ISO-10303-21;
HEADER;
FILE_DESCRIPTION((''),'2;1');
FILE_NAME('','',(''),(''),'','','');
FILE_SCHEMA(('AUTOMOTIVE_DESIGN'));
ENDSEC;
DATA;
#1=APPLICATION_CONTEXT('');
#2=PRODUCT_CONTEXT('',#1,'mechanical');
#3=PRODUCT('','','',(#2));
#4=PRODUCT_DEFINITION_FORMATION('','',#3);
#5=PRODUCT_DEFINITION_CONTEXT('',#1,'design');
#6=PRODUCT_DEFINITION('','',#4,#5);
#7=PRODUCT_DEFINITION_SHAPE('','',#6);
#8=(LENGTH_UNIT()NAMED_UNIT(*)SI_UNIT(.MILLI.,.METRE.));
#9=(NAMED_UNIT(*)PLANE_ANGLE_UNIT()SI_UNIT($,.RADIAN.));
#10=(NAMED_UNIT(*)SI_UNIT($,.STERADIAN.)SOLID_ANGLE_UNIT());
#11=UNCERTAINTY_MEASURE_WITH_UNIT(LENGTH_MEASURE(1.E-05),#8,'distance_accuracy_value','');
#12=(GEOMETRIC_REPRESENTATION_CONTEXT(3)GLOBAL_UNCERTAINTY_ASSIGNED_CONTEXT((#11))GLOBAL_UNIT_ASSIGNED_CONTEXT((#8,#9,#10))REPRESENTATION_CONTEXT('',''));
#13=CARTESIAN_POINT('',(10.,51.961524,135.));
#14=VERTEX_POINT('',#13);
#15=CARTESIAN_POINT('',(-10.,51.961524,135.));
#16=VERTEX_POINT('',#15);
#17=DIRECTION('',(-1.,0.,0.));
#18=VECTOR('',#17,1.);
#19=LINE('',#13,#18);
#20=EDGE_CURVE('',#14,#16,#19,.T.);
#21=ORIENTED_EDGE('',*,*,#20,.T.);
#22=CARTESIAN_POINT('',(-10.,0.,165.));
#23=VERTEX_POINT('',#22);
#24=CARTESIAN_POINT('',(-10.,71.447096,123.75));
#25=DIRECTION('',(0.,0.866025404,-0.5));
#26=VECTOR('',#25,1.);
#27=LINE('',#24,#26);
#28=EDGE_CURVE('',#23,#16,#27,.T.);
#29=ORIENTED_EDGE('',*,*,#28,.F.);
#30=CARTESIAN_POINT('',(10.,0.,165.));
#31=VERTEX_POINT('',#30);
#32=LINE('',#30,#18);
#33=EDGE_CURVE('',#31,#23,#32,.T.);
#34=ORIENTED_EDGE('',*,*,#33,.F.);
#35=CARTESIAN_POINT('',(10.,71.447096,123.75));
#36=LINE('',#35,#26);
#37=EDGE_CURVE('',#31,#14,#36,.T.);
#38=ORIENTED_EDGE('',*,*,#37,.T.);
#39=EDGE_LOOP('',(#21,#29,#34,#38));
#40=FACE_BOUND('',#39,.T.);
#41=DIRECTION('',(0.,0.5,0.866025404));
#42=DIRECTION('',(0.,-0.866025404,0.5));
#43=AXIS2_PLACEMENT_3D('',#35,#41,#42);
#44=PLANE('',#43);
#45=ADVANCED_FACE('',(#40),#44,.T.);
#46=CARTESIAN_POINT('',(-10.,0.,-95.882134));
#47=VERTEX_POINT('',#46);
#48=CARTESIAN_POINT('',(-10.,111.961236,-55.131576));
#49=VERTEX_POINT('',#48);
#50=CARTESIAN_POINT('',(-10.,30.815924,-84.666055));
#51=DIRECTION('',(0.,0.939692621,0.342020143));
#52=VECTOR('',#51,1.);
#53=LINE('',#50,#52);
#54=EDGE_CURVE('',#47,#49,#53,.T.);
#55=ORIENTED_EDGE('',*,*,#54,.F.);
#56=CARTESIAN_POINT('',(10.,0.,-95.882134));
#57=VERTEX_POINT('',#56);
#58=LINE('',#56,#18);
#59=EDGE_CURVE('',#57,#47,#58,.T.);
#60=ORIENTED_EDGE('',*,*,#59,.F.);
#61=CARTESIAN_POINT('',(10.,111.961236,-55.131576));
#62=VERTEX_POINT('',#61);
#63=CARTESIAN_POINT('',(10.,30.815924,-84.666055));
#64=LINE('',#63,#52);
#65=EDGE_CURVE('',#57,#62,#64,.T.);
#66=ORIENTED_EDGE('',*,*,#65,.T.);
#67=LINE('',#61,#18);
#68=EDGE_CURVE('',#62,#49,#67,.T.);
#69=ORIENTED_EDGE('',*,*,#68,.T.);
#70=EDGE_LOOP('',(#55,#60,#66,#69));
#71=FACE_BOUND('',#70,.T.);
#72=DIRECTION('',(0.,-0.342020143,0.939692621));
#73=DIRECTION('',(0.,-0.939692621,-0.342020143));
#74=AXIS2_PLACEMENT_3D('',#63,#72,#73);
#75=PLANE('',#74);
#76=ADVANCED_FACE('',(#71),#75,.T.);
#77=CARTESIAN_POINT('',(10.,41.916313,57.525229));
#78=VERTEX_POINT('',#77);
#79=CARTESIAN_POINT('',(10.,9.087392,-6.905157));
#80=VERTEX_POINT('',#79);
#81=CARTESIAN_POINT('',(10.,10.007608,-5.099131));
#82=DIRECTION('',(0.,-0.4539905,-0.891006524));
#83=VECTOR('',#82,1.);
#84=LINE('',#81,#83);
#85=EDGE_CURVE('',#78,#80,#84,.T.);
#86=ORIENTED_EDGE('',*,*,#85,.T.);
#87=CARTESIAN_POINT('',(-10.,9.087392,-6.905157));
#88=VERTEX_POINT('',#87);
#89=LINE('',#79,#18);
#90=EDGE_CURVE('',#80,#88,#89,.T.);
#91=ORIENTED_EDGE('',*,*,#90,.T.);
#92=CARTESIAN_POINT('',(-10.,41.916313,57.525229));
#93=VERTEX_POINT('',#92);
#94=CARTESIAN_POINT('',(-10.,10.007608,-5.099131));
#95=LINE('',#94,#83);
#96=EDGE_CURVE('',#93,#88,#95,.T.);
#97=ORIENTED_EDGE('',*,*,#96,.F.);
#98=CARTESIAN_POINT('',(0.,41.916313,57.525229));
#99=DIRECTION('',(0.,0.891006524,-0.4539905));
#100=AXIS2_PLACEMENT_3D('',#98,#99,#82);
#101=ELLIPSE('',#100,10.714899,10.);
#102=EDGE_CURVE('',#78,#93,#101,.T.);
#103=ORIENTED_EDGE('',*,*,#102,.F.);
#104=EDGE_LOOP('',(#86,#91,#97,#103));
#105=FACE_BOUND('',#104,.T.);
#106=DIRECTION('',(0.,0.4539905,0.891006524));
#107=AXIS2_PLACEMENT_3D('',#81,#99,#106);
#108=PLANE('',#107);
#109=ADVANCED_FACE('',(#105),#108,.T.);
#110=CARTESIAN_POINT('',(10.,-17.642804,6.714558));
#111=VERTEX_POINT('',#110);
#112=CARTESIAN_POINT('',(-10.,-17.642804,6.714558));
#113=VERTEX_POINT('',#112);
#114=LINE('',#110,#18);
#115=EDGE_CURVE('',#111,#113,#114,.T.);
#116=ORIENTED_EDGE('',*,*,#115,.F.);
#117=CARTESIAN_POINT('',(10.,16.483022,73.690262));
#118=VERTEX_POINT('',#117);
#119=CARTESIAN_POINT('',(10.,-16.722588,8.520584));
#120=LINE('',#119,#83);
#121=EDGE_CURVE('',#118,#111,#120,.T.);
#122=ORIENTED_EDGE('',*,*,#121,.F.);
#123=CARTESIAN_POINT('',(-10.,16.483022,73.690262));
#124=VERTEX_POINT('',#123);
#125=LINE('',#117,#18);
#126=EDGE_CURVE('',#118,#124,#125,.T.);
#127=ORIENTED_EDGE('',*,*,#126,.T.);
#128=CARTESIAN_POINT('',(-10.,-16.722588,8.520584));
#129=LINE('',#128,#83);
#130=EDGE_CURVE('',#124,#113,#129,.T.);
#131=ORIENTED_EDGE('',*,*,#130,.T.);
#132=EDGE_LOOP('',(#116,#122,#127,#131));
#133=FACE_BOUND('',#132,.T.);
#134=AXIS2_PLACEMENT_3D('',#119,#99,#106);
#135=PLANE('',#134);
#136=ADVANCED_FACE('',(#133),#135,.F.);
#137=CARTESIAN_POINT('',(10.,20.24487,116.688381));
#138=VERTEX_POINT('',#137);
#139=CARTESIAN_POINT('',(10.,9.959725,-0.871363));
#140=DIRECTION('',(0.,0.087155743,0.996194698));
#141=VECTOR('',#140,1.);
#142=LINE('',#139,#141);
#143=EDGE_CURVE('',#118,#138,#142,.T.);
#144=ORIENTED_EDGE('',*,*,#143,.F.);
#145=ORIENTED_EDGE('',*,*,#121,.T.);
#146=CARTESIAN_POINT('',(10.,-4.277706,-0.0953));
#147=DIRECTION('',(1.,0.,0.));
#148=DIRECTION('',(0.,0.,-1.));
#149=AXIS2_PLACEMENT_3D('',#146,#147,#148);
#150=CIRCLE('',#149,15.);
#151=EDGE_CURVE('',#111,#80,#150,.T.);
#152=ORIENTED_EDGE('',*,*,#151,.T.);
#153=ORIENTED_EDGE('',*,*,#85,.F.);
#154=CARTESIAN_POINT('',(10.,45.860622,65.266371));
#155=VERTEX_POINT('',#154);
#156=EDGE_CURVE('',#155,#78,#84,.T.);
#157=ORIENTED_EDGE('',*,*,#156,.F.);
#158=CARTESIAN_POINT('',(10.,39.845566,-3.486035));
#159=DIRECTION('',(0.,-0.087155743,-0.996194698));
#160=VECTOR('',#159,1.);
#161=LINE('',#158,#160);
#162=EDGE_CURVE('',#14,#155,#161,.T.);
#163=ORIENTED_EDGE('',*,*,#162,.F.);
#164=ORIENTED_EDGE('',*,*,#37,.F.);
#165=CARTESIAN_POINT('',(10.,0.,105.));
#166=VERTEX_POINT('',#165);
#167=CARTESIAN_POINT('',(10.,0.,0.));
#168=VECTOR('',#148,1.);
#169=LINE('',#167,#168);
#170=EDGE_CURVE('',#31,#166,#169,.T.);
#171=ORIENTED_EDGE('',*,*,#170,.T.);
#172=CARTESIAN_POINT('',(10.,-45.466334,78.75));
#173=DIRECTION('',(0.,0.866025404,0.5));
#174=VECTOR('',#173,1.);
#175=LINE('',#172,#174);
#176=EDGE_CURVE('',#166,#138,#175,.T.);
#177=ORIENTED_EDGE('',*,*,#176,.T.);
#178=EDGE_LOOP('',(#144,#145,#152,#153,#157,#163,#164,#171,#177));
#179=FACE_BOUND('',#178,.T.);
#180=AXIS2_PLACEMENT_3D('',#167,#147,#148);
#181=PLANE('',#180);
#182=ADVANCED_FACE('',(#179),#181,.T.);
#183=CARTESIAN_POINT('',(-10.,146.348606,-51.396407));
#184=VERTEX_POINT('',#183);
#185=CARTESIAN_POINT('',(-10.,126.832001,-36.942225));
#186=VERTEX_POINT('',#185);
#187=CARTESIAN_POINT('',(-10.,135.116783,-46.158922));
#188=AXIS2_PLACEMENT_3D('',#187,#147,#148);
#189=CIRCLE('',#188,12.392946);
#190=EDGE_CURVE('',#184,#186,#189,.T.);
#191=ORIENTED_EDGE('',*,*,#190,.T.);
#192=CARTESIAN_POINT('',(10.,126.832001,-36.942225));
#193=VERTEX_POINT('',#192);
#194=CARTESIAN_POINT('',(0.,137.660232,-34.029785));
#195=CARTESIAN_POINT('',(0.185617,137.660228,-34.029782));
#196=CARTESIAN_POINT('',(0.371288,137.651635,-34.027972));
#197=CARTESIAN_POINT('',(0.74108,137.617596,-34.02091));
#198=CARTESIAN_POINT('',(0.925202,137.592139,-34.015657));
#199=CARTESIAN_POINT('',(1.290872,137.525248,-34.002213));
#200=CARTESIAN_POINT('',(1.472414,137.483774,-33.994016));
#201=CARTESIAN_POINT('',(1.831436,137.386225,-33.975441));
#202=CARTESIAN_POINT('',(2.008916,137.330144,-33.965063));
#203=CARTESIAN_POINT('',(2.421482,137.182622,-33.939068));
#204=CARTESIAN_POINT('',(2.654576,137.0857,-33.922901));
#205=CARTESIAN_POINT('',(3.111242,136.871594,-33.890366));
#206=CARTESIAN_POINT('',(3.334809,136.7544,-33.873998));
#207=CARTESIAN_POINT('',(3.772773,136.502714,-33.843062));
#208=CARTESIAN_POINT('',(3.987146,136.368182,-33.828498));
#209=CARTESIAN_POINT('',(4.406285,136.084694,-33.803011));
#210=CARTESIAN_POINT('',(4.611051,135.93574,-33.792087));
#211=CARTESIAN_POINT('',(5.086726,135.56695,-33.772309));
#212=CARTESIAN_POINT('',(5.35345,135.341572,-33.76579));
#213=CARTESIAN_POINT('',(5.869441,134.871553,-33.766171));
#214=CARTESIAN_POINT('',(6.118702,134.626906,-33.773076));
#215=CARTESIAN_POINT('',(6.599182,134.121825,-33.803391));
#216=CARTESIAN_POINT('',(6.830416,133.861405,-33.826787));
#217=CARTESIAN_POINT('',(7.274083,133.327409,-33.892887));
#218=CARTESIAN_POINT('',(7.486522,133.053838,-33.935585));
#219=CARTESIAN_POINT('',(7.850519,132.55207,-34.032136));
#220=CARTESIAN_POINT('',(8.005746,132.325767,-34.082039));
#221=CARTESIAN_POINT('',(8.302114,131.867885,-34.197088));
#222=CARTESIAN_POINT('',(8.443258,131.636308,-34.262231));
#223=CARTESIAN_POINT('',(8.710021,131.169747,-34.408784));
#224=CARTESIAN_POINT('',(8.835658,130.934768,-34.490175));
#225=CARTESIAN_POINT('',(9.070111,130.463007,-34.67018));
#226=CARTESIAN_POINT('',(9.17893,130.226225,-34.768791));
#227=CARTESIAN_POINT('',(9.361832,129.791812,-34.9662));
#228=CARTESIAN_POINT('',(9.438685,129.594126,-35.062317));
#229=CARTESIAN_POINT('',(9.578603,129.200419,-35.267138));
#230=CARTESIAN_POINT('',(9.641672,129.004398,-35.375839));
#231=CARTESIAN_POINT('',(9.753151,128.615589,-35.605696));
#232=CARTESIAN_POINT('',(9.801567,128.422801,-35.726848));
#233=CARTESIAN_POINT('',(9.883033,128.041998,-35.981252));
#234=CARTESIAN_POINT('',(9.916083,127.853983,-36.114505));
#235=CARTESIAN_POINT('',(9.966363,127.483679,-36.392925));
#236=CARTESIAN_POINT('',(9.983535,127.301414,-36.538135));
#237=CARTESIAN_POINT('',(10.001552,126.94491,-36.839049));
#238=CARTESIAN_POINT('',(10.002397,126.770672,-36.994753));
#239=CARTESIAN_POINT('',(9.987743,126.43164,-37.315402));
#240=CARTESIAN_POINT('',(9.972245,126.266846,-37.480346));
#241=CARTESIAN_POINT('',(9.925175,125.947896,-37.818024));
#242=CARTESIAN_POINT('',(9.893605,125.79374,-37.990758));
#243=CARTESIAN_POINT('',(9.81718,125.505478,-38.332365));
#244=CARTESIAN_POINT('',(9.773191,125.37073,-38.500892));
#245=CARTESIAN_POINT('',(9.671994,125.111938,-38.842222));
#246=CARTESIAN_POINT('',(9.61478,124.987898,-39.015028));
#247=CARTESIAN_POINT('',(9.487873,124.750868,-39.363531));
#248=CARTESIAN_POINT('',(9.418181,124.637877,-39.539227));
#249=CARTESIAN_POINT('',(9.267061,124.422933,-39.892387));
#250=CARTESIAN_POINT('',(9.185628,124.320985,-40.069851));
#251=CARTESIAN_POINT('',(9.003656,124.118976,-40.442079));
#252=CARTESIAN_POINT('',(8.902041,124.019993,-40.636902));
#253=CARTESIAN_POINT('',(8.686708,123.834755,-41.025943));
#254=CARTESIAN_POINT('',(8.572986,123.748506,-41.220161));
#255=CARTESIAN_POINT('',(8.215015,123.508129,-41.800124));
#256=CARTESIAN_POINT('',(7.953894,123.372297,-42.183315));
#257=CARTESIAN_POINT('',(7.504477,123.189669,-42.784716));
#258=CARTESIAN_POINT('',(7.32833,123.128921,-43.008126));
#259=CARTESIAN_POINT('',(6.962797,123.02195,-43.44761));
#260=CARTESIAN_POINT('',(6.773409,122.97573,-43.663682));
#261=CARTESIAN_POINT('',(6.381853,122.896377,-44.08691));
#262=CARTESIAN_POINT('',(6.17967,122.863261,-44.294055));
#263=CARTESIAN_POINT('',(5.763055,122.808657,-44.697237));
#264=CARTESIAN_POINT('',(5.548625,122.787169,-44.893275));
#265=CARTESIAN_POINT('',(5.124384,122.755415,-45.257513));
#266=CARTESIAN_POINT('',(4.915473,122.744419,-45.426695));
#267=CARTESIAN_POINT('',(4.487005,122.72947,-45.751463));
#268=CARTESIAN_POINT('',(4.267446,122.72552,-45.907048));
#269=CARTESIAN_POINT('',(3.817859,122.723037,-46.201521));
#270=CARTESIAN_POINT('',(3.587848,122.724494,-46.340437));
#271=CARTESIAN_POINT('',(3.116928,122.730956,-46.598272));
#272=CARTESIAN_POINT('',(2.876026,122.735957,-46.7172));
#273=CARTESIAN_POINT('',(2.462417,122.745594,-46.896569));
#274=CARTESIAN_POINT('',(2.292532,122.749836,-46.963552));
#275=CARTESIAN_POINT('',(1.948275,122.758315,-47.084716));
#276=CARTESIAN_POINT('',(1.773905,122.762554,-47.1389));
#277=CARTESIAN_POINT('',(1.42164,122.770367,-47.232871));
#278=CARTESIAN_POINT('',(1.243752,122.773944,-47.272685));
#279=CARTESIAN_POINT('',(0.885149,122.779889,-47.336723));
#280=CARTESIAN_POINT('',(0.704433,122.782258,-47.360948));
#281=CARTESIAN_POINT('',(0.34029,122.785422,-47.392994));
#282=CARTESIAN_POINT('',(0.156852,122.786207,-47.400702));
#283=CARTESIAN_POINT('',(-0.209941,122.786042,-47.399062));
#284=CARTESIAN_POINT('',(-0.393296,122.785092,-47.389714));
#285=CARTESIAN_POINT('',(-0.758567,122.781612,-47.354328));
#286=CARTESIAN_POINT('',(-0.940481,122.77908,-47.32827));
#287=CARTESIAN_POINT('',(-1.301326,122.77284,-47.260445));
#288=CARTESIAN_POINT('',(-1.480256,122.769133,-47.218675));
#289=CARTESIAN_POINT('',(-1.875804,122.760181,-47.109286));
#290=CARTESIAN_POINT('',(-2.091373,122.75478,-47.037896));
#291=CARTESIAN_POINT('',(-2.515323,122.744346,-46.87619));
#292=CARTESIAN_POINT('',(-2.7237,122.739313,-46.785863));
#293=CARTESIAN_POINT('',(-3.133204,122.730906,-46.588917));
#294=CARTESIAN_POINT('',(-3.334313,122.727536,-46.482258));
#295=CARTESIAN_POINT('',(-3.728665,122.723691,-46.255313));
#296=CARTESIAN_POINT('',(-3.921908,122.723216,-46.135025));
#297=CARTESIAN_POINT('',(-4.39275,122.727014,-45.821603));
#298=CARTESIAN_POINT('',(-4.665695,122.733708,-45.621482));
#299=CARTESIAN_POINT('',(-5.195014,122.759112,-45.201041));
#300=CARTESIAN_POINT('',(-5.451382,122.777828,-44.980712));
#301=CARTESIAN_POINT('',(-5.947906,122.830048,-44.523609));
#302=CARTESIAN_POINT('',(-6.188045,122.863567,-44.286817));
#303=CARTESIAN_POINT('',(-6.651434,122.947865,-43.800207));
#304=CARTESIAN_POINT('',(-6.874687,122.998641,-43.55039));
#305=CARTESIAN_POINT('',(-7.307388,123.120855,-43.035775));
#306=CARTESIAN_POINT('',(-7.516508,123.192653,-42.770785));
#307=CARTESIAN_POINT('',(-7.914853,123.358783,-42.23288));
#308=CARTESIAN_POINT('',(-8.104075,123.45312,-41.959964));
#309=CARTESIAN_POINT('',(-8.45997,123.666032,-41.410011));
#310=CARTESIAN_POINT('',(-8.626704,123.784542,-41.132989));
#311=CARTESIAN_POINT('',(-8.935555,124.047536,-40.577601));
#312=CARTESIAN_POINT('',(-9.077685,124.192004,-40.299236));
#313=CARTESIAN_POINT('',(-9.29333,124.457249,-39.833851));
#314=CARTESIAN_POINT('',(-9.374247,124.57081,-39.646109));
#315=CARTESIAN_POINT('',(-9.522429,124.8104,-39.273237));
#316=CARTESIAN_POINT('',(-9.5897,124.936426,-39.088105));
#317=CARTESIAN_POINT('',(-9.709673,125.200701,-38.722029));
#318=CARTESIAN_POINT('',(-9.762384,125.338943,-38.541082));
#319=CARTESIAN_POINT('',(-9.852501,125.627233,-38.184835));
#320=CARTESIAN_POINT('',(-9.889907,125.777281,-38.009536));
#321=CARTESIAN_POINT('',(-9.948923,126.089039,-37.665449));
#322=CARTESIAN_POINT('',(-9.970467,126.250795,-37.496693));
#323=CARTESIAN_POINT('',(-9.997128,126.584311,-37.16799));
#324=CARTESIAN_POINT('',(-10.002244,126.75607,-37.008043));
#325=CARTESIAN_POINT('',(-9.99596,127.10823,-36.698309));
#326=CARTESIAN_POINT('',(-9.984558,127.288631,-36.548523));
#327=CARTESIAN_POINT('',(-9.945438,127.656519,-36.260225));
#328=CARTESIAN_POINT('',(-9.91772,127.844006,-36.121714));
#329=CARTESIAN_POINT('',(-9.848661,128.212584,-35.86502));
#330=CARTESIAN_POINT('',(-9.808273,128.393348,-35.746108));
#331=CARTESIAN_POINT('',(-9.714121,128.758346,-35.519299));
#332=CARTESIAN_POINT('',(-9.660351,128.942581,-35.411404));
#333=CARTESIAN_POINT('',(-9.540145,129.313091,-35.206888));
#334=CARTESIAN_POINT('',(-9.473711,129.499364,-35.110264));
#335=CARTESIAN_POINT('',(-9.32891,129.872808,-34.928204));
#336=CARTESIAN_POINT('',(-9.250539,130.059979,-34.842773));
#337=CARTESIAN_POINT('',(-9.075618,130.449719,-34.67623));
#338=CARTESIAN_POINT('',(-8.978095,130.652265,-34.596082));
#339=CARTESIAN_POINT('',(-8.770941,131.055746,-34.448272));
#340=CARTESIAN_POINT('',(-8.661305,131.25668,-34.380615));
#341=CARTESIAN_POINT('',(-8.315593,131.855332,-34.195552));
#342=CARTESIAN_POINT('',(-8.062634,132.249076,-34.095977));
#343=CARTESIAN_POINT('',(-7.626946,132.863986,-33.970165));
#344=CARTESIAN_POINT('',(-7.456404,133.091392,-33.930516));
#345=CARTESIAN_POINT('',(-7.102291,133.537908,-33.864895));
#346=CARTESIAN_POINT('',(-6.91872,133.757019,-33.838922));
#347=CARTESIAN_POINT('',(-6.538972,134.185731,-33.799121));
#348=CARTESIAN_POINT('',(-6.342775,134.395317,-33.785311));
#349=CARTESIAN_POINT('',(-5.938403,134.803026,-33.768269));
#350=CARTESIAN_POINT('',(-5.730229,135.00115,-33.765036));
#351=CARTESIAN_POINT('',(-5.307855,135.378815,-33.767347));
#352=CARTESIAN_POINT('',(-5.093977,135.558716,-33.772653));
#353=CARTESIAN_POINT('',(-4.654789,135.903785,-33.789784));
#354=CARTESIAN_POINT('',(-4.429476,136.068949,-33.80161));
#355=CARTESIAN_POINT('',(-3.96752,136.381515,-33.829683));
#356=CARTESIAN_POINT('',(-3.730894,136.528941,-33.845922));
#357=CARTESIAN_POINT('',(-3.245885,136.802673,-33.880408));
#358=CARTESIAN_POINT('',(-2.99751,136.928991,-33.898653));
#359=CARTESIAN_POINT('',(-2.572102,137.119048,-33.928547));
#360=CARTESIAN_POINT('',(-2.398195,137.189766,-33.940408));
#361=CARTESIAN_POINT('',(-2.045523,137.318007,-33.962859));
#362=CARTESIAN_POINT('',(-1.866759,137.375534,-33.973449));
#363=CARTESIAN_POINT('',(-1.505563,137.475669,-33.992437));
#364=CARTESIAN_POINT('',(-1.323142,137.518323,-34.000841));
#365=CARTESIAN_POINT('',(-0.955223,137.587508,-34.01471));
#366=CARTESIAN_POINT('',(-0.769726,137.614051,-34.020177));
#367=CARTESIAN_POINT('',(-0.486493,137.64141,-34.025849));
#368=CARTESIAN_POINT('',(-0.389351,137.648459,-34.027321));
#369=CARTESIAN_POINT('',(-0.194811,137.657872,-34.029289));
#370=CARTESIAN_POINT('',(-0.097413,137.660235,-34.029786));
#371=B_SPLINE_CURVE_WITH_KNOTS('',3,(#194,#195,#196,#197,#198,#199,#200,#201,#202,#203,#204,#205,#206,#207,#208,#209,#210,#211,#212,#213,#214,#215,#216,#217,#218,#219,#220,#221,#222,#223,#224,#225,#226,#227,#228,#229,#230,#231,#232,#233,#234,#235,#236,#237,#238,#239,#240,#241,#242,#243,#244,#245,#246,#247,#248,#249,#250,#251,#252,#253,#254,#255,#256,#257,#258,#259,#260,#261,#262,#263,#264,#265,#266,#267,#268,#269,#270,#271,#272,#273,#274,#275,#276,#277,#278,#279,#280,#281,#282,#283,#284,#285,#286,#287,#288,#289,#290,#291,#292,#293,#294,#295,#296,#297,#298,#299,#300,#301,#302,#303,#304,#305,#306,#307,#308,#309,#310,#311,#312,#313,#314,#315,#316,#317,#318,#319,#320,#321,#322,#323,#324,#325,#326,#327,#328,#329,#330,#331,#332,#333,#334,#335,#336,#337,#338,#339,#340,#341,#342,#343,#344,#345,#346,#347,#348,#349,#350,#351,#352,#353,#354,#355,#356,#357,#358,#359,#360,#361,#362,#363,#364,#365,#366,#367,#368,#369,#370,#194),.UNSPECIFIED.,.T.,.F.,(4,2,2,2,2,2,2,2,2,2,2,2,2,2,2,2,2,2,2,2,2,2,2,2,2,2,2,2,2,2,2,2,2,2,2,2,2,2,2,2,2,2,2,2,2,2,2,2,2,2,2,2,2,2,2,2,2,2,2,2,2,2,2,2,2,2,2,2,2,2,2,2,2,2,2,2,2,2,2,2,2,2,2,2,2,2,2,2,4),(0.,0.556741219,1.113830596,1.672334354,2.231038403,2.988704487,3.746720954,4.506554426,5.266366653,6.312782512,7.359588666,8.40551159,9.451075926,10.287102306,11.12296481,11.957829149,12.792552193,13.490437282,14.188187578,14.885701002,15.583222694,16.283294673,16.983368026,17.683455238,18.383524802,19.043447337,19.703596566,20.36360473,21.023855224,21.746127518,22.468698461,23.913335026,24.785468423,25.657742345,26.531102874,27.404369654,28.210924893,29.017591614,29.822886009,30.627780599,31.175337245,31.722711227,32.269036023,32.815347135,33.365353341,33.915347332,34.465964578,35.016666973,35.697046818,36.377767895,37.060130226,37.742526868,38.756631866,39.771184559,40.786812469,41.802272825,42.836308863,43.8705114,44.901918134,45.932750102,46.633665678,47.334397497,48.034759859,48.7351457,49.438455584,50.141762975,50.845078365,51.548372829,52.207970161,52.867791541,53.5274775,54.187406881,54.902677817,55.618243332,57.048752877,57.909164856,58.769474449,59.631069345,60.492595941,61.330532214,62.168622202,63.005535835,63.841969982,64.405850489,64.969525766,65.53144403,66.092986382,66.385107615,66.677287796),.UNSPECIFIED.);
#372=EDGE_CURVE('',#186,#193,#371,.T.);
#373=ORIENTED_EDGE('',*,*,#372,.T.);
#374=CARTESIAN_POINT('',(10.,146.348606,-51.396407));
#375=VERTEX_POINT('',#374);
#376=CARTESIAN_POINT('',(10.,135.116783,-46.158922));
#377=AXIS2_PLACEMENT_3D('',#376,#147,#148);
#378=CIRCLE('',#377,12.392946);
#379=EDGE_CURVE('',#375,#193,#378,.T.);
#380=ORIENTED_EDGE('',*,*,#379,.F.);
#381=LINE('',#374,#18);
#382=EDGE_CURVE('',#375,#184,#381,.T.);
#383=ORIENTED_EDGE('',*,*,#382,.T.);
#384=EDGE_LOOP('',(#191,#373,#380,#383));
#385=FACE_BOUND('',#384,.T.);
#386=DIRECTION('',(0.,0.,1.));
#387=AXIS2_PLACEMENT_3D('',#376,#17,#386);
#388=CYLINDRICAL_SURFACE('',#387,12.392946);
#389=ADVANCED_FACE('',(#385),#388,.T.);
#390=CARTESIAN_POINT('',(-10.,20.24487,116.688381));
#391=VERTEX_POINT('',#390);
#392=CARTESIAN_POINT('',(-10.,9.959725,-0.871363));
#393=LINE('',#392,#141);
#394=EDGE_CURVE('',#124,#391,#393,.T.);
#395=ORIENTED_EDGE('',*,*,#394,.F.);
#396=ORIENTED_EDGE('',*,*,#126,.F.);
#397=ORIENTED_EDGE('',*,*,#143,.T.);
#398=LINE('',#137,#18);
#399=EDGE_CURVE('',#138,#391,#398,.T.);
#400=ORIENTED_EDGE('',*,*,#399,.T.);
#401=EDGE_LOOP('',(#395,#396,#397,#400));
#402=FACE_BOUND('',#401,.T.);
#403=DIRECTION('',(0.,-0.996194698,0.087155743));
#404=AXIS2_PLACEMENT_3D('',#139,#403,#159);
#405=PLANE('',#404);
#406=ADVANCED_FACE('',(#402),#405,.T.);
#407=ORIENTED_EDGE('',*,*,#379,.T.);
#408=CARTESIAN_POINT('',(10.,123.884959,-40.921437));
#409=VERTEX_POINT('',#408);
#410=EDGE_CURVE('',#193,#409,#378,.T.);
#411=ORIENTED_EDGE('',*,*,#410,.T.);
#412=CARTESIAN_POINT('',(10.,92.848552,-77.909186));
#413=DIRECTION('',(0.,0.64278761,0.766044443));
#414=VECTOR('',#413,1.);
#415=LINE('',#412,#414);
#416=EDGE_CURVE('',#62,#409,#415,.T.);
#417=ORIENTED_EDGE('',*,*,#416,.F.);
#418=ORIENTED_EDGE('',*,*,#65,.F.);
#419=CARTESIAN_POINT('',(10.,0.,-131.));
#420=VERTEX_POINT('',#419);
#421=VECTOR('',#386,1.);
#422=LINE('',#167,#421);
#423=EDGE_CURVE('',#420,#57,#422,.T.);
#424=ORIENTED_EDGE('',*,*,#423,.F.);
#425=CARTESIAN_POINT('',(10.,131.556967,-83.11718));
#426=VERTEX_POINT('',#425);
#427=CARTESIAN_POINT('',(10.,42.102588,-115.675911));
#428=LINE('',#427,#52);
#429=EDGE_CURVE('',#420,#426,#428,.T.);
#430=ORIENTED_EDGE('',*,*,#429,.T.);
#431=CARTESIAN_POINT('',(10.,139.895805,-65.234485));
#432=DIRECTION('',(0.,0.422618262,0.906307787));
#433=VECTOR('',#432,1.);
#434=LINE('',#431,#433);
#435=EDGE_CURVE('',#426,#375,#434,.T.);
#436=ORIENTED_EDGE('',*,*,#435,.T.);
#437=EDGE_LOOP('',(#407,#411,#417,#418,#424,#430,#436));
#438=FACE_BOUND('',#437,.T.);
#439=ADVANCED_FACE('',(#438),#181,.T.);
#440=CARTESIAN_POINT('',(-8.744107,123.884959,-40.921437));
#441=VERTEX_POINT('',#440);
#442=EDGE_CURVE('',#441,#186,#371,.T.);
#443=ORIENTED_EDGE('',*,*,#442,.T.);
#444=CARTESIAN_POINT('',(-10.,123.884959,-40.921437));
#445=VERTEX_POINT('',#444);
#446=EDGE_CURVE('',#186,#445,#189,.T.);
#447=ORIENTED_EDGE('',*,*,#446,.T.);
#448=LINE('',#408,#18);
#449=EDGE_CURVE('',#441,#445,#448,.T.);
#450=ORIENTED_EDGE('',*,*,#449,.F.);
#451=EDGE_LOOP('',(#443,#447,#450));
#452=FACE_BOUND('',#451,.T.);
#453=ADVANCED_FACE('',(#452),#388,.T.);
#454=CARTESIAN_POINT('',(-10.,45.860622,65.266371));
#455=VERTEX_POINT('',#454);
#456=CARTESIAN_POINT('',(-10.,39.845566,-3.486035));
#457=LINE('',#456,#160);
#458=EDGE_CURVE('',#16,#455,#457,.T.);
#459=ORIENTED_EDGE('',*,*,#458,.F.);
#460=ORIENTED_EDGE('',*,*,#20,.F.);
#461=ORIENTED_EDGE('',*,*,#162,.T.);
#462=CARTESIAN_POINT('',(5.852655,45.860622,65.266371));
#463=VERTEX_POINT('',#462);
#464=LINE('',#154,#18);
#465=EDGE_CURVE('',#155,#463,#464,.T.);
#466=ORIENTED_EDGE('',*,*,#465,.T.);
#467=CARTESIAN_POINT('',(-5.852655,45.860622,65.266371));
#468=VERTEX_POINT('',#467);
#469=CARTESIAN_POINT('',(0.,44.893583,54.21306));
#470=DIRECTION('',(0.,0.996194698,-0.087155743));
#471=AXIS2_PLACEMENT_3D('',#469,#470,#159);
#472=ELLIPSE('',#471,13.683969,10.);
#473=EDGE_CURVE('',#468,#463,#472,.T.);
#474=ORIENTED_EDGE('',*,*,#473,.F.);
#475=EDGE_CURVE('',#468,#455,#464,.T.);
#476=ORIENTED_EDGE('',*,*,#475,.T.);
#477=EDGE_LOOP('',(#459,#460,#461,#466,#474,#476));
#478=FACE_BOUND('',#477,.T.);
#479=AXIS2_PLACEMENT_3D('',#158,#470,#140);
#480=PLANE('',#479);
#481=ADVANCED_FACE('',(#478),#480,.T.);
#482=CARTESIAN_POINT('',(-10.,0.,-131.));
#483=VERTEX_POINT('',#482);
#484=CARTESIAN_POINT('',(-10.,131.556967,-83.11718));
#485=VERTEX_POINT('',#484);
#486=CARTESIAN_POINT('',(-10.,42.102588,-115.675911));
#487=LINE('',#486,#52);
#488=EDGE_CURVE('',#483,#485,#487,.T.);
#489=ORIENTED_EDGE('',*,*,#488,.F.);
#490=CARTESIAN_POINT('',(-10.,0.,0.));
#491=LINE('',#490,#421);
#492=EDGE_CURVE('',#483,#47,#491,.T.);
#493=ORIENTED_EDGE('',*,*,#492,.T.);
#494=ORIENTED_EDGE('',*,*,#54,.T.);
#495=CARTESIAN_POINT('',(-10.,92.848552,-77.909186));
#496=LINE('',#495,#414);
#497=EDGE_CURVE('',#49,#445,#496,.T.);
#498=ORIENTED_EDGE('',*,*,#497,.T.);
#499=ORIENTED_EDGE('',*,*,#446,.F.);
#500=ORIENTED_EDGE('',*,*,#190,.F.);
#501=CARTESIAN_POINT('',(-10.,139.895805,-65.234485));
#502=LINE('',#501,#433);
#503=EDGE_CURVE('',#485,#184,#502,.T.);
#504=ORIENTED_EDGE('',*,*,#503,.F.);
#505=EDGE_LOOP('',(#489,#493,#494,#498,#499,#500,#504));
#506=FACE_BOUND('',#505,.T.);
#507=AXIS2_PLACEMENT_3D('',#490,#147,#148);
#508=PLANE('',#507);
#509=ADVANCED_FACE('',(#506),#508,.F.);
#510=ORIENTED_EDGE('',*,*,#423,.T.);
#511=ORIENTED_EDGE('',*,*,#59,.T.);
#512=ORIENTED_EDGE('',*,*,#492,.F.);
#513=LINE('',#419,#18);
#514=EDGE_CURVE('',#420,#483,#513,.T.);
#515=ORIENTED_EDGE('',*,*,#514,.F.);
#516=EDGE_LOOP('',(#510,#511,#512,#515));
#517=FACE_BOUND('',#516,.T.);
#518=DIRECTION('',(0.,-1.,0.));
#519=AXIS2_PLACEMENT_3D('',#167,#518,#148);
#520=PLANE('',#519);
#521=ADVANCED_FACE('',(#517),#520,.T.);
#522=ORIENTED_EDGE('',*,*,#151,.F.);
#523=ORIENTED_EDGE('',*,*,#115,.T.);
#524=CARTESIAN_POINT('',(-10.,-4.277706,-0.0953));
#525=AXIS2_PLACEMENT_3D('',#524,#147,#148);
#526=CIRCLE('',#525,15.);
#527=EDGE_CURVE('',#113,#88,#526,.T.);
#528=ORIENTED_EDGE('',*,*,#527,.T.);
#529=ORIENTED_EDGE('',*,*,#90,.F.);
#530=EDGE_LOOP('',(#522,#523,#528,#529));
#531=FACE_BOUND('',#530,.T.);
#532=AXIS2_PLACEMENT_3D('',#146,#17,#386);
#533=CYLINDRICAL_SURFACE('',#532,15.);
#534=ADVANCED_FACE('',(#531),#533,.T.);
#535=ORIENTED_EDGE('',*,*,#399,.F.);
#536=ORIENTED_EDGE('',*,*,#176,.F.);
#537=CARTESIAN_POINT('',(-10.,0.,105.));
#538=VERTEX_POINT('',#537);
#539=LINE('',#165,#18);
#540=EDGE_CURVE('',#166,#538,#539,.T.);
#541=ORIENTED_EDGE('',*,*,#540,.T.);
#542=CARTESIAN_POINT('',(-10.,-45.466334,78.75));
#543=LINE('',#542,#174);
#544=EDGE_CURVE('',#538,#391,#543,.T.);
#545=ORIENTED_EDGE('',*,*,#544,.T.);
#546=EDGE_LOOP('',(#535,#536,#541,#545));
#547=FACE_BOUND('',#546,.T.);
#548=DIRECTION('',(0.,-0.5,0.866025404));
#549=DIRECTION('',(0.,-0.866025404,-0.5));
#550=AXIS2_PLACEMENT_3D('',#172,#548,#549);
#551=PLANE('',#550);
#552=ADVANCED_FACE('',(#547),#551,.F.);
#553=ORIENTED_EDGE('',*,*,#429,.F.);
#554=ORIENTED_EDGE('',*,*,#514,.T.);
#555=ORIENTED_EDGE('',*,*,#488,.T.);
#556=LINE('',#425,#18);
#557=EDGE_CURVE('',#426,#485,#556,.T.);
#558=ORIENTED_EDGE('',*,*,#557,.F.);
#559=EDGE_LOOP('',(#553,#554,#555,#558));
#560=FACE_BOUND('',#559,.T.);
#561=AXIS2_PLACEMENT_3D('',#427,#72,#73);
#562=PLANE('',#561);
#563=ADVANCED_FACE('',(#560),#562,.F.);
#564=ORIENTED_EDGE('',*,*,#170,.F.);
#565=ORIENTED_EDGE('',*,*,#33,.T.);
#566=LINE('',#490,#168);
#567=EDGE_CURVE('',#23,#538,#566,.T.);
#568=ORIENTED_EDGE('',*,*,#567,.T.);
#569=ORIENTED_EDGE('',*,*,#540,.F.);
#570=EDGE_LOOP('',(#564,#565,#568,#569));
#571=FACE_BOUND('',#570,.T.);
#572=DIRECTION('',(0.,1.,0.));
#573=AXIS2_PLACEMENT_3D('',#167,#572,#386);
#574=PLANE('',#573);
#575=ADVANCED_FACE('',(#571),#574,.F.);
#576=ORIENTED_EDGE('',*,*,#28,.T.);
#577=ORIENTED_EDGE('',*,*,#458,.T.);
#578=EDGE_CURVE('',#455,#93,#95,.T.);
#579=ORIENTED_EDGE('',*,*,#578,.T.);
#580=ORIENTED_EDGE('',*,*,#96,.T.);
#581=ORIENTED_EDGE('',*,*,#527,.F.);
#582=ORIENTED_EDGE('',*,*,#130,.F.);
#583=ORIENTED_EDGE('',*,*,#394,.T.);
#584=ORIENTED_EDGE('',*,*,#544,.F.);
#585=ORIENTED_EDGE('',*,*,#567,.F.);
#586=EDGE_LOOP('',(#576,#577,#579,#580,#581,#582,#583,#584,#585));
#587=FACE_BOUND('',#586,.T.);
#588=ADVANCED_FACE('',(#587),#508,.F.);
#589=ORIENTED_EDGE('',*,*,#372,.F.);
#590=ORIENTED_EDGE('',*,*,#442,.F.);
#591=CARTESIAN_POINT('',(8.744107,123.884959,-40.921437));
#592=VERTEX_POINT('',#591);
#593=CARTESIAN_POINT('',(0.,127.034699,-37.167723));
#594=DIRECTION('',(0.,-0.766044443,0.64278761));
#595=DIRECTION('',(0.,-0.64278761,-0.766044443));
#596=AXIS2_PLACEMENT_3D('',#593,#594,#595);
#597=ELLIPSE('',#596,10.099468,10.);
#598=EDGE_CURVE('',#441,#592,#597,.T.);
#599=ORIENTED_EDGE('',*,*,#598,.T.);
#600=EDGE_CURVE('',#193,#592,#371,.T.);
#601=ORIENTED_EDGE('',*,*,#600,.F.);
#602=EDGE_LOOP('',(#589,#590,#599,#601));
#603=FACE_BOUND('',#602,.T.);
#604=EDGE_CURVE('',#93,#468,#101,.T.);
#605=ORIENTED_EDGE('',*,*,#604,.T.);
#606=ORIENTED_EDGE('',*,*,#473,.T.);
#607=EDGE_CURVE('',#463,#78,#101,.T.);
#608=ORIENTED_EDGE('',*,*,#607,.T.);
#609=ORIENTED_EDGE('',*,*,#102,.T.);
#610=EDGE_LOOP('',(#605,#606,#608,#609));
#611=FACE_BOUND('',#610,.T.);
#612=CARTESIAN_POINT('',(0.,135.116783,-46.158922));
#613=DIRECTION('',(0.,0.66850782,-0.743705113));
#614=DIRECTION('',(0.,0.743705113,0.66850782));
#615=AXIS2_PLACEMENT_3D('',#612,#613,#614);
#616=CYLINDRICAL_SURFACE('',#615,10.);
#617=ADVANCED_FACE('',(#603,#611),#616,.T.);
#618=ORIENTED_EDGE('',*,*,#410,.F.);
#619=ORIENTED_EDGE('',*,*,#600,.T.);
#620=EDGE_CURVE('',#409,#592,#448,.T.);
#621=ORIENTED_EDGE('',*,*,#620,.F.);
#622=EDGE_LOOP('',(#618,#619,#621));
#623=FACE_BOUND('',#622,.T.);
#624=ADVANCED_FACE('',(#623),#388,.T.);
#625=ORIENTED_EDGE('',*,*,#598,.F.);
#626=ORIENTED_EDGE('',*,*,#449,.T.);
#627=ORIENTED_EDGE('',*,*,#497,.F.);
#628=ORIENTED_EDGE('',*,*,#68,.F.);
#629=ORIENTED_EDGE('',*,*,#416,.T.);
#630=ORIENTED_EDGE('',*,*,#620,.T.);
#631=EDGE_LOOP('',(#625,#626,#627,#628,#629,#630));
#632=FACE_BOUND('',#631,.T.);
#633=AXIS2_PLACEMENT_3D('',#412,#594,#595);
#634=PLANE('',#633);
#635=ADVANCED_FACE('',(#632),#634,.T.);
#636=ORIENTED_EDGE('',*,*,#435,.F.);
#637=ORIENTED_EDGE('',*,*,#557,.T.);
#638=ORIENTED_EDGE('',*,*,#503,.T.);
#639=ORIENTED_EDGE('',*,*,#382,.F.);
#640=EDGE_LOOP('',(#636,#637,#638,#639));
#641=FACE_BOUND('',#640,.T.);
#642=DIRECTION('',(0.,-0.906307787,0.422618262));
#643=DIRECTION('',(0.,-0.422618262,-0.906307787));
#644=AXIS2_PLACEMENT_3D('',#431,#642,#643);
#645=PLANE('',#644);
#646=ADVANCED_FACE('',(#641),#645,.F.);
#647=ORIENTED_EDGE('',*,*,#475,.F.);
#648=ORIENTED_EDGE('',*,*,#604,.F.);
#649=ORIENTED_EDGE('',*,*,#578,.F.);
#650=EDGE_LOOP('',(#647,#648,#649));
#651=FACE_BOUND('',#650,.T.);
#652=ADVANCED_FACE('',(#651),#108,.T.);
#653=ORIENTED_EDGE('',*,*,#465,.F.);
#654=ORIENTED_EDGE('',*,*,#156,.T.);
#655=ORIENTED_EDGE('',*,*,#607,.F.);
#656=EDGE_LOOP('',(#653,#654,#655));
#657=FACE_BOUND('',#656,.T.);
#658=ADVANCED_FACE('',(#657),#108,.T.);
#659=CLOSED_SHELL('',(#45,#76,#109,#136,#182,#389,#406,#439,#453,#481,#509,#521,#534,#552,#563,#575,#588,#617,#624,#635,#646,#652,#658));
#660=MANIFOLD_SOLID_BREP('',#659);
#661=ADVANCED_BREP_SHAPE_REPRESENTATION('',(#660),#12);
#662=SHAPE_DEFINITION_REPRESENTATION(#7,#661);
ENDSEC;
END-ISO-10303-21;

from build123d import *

# Parameters (mm, degrees)
EXTRUDE_1_DEPTH = 10


with BuildPart() as part:
    # 草图1 → 旋转1 (revolve)
    with BuildSketch(Plane(origin=(0, 0, 0), x_dir=(0, 0, -1), z_dir=(1, 0, 0))):
        Polygon((52.844000246, 127.679731381), (46.158922046, 135.116782508), (-69.478316775, 31.171822167), (-62.793238575, 23.73477104), align=None)
    revolve(axis=Axis((0, 135.116782508, -46.158922046), (0, -0.6685078200290915, 0.7437051126353456)))

    # 草图1<3> → 凸台-拉伸1 (add, symmetric)
    with BuildSketch(Plane(origin=(0, 0, 0), x_dir=(0, 0, -1), z_dir=(1, 0, 0))):
        with BuildLine():
            Line((95.882133508, 0), (131, 0))
            Line((131, 0), (83.117179934, 131.55696691))
            Line((83.117179934, 131.55696691), (51.396407388, 146.348606071))
            ThreePointArc((51.396407388, 146.348606071), (34.927098482, 140.35426785), (40.921436703, 123.884958945))
            Line((40.921436703, 123.884958945), (55.131576148, 111.961236177))
            Line((55.131576148, 111.961236177), (95.882133508, 0))
        make_face()
        with BuildLine():
            Line((6.905157326, 9.087391756), (-65.266371134, 45.860622235))
            Line((-65.266371134, 45.860622235), (-135, 51.961524227))
            Line((-135, 51.961524227), (-165, 0))
            Line((-165, 0), (-105, 0))
            Line((-105, 0), (-116.688381169, 20.244870042))
            Line((-116.688381169, 20.244870042), (-73.690262417, 16.483022099))
            Line((-73.690262417, 16.483022099), (-6.714557667, -17.64280397))
            ThreePointArc((-6.714557667, -17.64280397), (13.460397692, -11.087563603), (6.905157326, 9.087391756))
        make_face()
    extrude(amount=EXTRUDE_1_DEPTH, both=True)


solid = part.part
